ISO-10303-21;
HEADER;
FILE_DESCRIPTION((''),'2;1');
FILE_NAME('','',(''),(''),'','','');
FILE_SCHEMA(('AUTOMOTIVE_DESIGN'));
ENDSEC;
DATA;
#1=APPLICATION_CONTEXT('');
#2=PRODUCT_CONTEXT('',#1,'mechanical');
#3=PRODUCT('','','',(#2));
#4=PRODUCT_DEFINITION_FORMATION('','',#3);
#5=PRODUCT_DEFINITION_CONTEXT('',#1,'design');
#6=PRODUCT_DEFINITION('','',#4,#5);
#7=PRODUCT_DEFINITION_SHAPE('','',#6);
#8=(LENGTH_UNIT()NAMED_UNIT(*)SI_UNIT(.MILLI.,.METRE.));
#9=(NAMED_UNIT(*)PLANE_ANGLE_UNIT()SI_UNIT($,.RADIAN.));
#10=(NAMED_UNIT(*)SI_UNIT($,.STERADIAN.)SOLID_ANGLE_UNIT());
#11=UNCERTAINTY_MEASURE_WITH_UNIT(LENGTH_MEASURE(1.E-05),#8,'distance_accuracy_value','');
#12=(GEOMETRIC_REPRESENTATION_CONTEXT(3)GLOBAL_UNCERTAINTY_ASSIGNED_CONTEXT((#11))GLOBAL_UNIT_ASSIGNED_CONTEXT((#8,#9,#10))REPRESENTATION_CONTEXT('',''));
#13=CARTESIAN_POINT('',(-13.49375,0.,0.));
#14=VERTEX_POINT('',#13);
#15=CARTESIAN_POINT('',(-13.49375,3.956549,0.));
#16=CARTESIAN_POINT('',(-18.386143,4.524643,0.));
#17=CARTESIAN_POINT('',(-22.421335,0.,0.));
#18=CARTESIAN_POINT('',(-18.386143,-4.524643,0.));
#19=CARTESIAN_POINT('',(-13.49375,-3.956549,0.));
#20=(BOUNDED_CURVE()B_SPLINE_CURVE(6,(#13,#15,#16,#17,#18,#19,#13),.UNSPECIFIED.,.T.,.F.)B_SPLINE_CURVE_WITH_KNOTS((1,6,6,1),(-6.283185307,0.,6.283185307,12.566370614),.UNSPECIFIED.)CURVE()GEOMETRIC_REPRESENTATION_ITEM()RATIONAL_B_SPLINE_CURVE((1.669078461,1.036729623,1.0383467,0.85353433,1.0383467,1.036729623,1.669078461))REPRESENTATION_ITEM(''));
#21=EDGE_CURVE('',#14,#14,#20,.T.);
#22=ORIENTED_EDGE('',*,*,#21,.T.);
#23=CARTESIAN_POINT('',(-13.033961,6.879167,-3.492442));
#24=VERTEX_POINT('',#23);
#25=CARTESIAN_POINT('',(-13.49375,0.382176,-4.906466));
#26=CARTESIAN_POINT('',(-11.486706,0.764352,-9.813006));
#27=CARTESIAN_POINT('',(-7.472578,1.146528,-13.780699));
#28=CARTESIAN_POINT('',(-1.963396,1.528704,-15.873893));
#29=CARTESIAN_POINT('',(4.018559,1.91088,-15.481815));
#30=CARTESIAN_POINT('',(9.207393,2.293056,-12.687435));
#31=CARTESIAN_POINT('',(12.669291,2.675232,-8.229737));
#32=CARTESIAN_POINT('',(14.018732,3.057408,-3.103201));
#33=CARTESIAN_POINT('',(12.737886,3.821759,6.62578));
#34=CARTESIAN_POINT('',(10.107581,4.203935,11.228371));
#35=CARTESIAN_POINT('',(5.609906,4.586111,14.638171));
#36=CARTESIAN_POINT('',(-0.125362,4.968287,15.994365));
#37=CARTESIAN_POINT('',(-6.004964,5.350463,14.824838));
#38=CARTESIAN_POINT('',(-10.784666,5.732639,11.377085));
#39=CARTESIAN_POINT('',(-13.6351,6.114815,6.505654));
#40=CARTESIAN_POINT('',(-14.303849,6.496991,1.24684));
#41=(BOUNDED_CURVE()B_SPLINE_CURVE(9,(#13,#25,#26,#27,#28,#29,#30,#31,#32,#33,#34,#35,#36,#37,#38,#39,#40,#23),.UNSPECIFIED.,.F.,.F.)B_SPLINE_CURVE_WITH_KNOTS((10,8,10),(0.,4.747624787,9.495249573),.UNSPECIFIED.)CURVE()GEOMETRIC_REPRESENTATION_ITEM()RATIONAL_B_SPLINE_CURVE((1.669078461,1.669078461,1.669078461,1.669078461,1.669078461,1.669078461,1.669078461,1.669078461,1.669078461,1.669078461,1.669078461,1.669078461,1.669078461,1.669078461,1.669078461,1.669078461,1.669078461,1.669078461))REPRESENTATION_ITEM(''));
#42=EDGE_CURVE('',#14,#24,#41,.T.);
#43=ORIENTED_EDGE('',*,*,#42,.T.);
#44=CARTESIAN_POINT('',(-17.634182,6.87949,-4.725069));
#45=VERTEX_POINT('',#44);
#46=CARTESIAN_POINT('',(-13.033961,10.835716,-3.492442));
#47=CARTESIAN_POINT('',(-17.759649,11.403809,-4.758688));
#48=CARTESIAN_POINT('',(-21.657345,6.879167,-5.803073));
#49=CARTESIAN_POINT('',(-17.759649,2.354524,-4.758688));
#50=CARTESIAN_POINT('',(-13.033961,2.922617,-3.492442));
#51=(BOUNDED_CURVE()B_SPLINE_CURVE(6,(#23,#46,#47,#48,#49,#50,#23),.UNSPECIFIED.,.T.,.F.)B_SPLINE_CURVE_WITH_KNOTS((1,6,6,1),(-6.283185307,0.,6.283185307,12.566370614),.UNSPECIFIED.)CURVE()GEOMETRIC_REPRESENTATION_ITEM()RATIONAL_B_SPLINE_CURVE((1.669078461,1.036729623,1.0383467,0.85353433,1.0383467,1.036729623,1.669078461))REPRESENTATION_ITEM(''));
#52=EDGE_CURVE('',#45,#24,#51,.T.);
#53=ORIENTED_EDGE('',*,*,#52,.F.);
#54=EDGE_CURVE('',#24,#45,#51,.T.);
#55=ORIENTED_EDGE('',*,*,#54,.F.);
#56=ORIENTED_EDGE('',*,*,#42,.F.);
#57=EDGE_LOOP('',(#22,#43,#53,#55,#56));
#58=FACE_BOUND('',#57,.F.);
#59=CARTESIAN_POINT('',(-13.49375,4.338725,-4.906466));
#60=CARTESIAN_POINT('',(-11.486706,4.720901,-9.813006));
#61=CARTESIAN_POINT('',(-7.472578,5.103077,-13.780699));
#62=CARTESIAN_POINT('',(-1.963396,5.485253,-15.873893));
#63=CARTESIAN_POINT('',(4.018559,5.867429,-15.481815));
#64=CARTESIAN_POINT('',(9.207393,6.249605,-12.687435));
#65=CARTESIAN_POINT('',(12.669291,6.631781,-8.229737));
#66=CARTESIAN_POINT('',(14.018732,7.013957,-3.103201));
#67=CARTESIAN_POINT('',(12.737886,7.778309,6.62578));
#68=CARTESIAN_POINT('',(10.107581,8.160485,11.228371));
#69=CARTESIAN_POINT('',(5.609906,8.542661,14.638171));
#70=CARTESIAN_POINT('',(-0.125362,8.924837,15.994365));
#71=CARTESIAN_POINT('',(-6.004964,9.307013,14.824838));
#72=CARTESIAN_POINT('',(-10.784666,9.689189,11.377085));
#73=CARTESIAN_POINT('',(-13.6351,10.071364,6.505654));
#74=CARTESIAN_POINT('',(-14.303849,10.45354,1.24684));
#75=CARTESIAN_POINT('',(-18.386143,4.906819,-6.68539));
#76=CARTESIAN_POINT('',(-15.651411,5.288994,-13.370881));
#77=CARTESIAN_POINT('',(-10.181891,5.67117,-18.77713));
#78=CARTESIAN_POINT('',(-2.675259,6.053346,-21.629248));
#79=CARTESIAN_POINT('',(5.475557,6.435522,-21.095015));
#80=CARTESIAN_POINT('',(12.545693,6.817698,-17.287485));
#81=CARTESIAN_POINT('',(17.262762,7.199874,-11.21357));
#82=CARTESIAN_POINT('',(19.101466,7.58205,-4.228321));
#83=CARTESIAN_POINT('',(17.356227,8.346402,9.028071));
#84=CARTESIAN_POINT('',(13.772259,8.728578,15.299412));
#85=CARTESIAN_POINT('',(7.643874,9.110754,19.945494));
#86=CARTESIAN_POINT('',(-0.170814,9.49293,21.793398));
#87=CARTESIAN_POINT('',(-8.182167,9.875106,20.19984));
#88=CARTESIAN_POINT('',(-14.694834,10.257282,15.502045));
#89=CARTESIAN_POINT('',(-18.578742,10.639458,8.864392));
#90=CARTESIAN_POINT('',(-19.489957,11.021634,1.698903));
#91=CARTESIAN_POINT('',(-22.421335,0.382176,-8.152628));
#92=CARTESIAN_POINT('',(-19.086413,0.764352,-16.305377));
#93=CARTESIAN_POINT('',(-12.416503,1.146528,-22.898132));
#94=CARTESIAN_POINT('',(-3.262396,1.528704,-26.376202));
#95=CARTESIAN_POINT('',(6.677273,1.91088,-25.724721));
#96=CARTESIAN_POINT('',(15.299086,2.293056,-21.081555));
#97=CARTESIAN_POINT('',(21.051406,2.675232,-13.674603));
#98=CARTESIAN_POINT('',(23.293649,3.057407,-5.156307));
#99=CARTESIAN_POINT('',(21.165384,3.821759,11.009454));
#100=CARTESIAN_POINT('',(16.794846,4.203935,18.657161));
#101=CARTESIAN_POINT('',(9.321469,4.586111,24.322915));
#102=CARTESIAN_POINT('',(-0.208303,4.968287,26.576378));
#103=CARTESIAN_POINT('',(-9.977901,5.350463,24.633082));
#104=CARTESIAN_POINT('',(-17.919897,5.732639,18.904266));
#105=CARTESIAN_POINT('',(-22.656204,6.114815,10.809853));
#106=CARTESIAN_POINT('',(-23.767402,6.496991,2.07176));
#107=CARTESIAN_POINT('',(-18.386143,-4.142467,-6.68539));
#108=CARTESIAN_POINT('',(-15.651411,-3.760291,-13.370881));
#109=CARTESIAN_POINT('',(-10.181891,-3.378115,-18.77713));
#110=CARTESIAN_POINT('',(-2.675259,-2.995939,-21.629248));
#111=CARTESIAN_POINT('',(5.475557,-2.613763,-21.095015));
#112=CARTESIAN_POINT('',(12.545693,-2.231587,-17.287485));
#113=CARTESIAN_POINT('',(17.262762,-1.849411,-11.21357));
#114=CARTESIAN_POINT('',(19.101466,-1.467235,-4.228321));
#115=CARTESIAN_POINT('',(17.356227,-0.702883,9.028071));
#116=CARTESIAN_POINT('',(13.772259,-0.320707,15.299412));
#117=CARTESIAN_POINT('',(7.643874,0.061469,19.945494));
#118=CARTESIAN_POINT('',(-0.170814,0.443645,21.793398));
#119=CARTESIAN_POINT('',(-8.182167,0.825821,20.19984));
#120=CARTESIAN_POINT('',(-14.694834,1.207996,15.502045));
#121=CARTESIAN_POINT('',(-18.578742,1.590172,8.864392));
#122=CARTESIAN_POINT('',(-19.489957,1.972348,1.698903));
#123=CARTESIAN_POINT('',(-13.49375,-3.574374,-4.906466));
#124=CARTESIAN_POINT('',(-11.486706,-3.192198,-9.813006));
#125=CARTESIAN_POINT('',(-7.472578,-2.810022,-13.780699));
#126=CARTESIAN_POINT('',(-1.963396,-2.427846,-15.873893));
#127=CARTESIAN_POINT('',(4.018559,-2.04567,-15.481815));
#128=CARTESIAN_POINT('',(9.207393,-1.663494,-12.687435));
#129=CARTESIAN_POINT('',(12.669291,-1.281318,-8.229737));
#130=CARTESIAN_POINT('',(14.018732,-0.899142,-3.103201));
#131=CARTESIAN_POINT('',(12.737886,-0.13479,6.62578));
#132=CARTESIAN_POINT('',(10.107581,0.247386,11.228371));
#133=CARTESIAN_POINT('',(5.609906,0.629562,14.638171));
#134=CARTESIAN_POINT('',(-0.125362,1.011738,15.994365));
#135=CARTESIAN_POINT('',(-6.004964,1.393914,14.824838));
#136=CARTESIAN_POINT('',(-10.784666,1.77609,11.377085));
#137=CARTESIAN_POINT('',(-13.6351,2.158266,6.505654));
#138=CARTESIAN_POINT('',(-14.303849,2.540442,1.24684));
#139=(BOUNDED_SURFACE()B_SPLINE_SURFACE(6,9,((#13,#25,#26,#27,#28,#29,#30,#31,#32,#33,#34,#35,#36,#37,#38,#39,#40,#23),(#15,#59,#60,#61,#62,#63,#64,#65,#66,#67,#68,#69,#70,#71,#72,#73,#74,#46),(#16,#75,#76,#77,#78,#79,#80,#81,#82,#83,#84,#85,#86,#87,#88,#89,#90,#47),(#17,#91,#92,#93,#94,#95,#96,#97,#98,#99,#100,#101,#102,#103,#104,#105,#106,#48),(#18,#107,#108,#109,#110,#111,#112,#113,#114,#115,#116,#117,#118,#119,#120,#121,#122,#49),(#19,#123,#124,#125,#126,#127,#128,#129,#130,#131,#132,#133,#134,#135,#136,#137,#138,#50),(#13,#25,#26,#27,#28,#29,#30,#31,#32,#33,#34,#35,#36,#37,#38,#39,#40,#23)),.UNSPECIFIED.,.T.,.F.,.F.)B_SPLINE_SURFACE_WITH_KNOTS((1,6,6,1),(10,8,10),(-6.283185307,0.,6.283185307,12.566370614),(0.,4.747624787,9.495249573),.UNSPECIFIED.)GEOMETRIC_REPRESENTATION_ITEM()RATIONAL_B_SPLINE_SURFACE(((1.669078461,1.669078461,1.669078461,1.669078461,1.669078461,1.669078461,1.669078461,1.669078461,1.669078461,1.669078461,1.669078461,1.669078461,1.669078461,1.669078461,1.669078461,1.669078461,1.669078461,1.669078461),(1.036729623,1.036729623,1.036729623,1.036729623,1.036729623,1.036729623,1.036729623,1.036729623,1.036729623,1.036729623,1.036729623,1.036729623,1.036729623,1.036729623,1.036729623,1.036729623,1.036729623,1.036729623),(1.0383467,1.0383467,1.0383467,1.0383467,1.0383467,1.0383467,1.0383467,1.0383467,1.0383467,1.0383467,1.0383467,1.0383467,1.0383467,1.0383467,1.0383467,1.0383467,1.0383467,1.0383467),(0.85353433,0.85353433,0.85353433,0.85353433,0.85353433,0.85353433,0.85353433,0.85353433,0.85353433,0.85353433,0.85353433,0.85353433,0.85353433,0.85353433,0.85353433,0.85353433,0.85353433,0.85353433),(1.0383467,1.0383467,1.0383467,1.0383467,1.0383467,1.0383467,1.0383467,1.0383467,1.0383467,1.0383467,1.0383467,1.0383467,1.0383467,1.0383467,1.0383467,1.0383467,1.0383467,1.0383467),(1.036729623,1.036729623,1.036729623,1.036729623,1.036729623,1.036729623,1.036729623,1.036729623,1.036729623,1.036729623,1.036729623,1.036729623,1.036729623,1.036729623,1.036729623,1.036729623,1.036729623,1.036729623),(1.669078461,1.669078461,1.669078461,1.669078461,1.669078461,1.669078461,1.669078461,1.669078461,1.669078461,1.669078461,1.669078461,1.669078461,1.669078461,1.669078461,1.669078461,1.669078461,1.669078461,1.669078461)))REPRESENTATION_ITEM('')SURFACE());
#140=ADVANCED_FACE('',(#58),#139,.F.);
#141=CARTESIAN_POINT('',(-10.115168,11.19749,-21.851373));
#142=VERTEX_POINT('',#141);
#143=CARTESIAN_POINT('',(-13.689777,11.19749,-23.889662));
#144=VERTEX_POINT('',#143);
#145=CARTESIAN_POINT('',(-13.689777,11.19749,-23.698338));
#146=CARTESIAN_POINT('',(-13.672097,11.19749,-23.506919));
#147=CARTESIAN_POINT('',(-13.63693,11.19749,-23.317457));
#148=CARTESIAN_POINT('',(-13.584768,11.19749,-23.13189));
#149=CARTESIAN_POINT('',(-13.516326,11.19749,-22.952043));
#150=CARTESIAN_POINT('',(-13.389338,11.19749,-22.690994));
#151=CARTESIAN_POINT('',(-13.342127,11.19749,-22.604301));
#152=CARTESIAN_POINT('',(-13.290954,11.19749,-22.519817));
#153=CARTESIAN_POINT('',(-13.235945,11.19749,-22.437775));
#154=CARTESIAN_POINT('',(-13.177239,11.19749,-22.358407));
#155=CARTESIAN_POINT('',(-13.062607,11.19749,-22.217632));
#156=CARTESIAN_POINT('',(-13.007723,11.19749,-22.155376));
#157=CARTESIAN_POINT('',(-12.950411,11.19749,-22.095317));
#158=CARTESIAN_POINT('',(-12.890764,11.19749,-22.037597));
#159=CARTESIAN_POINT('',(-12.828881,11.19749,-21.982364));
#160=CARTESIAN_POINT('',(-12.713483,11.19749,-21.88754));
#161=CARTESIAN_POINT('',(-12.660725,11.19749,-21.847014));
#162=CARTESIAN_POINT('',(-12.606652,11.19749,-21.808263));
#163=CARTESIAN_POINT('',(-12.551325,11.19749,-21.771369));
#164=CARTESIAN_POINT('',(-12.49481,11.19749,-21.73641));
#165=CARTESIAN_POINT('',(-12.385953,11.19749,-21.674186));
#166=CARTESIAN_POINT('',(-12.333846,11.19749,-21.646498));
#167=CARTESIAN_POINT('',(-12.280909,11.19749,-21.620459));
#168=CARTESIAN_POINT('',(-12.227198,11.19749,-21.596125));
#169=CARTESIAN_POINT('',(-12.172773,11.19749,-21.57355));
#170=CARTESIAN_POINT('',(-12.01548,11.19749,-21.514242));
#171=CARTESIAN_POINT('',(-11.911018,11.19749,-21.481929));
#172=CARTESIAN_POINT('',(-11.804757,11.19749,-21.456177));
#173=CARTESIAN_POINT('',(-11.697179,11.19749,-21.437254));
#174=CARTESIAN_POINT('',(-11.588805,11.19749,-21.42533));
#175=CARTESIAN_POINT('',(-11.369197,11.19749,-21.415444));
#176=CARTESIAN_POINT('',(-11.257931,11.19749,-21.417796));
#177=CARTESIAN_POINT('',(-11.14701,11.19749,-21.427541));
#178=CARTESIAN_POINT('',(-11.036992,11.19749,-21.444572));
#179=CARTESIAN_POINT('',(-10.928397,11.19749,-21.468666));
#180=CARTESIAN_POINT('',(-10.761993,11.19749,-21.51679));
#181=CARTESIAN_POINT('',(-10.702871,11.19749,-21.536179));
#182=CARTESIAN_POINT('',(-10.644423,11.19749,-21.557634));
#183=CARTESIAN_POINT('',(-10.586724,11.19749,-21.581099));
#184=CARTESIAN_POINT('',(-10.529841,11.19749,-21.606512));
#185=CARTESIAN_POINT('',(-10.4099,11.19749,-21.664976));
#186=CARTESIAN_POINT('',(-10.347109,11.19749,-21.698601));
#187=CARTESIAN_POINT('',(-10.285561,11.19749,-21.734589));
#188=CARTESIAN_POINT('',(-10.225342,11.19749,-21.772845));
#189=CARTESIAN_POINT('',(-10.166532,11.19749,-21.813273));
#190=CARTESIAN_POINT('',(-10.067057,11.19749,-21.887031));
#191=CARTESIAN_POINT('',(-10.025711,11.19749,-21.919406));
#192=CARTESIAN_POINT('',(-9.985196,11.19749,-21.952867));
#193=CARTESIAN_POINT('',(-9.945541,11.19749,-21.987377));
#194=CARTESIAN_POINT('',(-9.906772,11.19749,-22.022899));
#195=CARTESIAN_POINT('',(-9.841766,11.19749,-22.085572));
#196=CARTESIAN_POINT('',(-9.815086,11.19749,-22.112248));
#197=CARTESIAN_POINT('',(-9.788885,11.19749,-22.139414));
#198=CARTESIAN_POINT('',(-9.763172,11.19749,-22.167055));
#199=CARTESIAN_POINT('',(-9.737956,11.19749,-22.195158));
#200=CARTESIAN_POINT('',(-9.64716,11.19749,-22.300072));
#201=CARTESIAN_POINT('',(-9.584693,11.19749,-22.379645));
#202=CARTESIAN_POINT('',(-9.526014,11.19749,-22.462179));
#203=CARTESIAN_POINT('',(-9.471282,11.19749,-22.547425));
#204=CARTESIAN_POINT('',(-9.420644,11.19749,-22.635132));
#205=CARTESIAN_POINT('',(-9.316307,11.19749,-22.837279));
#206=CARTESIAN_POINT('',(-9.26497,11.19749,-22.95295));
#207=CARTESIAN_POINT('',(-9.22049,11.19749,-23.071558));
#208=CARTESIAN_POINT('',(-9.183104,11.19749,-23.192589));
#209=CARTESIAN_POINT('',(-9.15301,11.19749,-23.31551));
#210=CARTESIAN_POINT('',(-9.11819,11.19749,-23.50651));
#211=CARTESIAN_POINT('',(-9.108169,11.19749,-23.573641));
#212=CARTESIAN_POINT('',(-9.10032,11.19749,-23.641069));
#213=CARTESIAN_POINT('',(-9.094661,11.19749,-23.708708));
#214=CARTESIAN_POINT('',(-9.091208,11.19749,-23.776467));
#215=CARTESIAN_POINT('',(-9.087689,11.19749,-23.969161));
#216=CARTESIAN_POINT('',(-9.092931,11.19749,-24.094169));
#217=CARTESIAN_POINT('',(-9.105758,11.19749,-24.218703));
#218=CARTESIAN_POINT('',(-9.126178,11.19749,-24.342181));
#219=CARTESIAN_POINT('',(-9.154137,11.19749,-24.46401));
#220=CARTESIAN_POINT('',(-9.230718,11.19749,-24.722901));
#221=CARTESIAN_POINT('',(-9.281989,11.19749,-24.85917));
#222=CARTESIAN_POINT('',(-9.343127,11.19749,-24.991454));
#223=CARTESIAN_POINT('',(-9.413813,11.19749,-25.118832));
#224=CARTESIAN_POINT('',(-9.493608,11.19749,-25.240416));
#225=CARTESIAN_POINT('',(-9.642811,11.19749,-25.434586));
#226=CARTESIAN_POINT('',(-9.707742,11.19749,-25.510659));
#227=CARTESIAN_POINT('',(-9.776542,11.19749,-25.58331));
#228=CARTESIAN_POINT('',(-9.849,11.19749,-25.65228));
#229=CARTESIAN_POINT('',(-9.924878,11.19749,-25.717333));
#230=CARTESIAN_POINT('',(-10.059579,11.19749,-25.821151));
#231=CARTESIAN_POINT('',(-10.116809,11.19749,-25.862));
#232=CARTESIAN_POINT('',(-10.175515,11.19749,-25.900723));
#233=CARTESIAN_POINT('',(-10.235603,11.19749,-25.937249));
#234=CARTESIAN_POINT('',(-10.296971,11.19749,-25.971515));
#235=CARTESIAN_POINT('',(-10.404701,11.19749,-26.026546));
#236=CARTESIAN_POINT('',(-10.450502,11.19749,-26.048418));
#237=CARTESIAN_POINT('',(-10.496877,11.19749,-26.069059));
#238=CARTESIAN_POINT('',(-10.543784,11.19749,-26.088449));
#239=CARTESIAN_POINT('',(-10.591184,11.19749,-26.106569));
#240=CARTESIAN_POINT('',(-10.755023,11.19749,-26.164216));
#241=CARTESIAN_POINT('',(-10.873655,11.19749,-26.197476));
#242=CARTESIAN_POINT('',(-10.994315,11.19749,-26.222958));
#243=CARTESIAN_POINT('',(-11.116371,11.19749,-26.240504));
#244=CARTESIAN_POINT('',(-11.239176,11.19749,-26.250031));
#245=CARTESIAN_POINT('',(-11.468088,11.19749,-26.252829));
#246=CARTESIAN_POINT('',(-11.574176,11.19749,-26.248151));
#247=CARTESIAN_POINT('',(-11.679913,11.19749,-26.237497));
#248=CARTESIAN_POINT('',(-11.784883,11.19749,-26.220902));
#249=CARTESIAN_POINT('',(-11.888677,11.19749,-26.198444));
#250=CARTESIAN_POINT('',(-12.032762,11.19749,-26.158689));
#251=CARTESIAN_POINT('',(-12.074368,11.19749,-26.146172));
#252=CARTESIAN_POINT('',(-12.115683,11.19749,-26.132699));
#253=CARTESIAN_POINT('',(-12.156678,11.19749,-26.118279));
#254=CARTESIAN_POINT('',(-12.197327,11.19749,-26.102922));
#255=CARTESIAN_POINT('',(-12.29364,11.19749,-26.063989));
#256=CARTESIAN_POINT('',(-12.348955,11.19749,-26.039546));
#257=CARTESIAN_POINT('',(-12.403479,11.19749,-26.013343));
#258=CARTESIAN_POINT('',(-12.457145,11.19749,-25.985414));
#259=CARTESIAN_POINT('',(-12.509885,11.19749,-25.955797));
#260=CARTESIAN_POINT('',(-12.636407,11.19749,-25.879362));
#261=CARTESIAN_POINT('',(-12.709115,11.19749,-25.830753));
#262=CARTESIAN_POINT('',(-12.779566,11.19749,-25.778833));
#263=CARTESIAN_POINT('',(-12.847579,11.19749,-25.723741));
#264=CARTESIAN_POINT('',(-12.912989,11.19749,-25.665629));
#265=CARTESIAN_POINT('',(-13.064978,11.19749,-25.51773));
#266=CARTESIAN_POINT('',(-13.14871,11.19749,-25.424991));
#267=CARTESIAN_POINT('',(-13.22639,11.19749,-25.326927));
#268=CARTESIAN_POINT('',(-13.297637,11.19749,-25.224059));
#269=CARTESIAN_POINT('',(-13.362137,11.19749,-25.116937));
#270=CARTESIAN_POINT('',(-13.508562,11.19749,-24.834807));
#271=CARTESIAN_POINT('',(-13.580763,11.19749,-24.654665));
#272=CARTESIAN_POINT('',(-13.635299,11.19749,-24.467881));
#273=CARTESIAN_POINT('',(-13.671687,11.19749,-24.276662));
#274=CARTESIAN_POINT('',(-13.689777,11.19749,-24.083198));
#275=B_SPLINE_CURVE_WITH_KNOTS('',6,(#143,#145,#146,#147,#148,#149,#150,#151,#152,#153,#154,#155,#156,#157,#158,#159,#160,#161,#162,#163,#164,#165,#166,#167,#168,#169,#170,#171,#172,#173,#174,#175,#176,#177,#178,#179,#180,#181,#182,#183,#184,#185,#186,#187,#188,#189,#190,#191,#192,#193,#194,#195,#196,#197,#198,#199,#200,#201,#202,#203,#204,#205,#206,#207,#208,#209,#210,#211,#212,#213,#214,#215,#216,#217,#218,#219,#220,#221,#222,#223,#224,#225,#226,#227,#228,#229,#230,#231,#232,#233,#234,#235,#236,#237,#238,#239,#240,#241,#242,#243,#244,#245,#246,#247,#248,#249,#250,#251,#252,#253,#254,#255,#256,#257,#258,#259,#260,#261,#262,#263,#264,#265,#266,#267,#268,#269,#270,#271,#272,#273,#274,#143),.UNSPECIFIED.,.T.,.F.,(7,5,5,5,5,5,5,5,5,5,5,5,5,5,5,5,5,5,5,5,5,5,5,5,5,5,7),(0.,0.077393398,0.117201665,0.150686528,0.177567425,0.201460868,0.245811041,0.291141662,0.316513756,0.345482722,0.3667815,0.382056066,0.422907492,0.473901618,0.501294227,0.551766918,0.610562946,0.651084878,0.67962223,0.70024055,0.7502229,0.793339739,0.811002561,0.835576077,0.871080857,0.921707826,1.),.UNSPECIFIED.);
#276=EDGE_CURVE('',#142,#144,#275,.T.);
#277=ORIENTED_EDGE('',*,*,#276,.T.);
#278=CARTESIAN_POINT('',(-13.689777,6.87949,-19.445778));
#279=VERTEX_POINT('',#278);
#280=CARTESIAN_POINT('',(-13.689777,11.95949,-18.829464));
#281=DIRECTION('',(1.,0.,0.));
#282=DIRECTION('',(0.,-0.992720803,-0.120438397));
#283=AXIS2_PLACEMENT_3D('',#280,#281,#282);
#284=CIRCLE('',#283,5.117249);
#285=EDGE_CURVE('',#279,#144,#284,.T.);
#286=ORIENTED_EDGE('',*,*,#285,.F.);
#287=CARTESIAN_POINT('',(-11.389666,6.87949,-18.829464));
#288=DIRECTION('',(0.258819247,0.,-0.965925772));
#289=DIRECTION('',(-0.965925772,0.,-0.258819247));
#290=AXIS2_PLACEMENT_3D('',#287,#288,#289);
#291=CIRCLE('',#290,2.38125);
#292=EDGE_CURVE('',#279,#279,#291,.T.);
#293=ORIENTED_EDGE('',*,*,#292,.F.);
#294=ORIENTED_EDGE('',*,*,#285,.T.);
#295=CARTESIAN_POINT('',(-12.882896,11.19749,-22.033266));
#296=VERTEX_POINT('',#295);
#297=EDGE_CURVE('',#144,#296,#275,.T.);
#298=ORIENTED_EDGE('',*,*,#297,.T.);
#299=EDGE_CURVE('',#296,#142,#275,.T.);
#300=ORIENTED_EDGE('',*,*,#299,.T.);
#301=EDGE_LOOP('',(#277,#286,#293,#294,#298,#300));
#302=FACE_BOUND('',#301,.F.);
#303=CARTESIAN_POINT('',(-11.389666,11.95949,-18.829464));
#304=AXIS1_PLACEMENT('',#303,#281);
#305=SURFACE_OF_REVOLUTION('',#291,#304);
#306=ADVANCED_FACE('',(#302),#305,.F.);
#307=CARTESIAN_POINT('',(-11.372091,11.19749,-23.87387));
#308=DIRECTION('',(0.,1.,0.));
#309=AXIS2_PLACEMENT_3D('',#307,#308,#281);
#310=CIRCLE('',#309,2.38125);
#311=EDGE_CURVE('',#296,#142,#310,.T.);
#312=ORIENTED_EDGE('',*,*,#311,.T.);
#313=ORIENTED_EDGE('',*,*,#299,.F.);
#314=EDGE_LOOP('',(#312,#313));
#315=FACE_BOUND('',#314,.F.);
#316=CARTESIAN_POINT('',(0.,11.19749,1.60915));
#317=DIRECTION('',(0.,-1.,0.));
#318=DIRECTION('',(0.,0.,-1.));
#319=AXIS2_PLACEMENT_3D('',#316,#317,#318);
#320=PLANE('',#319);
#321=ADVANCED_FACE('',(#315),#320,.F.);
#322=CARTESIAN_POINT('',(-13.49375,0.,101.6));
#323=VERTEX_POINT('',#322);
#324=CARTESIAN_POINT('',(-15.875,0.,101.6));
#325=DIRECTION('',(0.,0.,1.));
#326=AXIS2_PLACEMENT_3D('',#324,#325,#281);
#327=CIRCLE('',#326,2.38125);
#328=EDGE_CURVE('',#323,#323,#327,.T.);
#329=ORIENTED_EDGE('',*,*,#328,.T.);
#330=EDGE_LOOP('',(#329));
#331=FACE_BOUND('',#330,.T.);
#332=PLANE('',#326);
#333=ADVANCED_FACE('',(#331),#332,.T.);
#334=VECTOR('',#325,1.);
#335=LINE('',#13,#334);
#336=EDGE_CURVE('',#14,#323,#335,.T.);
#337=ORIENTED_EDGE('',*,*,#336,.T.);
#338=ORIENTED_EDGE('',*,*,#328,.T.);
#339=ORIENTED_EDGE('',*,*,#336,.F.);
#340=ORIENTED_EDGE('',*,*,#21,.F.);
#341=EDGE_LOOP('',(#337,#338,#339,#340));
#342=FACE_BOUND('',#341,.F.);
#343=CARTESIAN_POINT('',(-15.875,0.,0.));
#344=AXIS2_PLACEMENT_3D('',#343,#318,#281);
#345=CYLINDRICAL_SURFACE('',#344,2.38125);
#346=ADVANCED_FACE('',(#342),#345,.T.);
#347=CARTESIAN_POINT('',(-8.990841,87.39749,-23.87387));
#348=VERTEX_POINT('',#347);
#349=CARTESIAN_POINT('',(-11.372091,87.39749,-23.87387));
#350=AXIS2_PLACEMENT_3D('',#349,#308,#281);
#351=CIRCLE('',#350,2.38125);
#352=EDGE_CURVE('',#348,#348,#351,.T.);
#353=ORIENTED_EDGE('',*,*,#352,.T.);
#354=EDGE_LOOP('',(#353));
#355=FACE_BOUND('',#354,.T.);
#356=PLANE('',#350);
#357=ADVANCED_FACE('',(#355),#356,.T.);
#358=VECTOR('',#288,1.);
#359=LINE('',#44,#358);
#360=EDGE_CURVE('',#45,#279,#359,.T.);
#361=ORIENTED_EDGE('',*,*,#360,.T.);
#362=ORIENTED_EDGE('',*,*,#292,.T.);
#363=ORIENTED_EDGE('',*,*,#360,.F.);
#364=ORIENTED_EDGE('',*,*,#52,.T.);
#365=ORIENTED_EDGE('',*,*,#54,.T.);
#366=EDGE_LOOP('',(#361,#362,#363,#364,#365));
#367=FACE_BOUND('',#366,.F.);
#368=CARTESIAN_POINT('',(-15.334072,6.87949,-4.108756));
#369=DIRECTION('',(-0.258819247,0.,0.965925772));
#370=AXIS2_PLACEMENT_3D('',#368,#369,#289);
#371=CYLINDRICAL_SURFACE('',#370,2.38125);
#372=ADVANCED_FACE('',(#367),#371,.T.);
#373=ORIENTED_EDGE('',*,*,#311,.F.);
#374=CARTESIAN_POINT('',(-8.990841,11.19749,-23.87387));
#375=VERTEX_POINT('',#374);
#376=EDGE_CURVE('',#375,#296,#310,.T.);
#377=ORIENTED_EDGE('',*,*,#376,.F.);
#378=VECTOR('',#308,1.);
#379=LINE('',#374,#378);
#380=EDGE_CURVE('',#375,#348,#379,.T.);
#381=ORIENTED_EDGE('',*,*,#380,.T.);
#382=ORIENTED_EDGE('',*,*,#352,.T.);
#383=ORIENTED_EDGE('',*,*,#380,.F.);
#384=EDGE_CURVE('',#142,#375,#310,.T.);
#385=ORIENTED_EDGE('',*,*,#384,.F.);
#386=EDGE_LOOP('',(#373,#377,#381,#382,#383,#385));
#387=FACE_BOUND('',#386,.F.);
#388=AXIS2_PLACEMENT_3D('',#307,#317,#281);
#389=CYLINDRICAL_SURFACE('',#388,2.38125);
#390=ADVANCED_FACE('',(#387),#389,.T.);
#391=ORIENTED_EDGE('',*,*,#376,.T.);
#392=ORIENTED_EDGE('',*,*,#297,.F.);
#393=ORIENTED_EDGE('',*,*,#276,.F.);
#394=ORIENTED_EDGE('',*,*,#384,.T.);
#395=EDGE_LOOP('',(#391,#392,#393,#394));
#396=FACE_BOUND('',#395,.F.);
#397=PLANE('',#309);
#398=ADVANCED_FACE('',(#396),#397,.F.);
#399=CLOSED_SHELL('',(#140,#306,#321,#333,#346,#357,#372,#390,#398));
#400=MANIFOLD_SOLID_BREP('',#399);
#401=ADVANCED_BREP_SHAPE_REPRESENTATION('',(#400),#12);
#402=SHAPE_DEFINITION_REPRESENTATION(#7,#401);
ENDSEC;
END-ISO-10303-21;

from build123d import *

# Parameters (mm, degrees)
SWEEP1_PITCH        = 6.604
SWEEP1_HEIGHT       = 6.879166887
SWEEP1_RADIUS       = 15.875
SWEEP1_START_ANGLE  = -90
SKETCH4_R           = 2.38125
SKETCH5_R           = 2.38125
BOSS_EXTRUDE1_DEPTH = 15.24
SKETCH6_R           = 2.38125
BOSS_EXTRUDE2_DEPTH = 101.6
SKETCH7_R           = 2.38125
SKETCH13_W          = 34.723649491
SKETCH13_H          = 34.72364949
CUT_EXTRUDE1_DEPTH  = 76.2
SKETCH15_R          = 2.38125
BOSS_EXTRUDE5_DEPTH = 76.2


with BuildPart() as part:
    # Sweep1: sweep along a helix
    with BuildLine() as sweep1_path:
        add(Helix(SWEEP1_PITCH, SWEEP1_HEIGHT, SWEEP1_RADIUS, center=(0, 0, 0), direction=(0, 1, 0), lefthand=True, mode=Mode.PRIVATE).rotate(Axis((0, 0, 0), (0, 1, 0)), SWEEP1_START_ANGLE))
    # Sketch4 → Sweep1 (sweep)
    with BuildSketch(Plane.XY):
        with Locations((-15.875, 0)):
            Circle(SKETCH4_R)
    sweep(path=sweep1_path.line, is_frenet=True)

    # Sketch5 → Boss-Extrude1 (add)
    with BuildSketch(Plane(origin=(0, 0, 0), x_dir=(-0.965925772, 0, -0.258819247), z_dir=(0.258819247, 0, -0.965925772))):
        with Locations((15.875, 6.879489502)):
            Circle(SKETCH5_R)
    extrude(amount=BOSS_EXTRUDE1_DEPTH)

    # Sketch6 → Boss-Extrude2 (add)
    with BuildSketch(Plane.XY):
        with Locations((-15.875, 0)):
            Circle(SKETCH6_R)
    extrude(amount=BOSS_EXTRUDE2_DEPTH)

    # Sweep3: sweep along a path in Sketch8
    with BuildLine(Plane(origin=(-11.389666301, -1.880573246, 0), x_dir=(0, -1, 0), z_dir=(1, 0, 0))) as sweep3_path:
        ThreePointArc((-8.760062748, 18.829464319), (-10.247960299, 22.421566768), (-13.840062748, 23.909464319))
    # Sketch7 → Sweep3 (sweep)
    with BuildSketch(Plane(origin=(3.94440533, 0, -14.720708767), x_dir=(-0.965925772, 0, -0.258819247), z_dir=(0.258819247, 0, -0.965925772))):
        with Locations((15.875, 6.879489502)):
            Circle(SKETCH7_R)
    sweep(path=sweep3_path.line)

    # Sketch13 → Cut-Extrude1 (cut)
    with BuildSketch(Plane(origin=(0, 0, 0), x_dir=(0, 0, -1), z_dir=(1, 0, 0))):
        with Locations((15.752675198, 28.559314247)):
            Rectangle(SKETCH13_W, SKETCH13_H)
    extrude(amount=-CUT_EXTRUDE1_DEPTH, mode=Mode.SUBTRACT)

    # Sketch15 → Boss-Extrude5 (add)
    with BuildSketch(Plane(origin=(0, 11.197489502, 0), x_dir=(1, 0, 0), z_dir=(0, 1, 0))):
        with Locations((-11.372091381, 23.873869709)):
            Circle(SKETCH15_R)
    extrude(amount=BOSS_EXTRUDE5_DEPTH)


solid = part.part
